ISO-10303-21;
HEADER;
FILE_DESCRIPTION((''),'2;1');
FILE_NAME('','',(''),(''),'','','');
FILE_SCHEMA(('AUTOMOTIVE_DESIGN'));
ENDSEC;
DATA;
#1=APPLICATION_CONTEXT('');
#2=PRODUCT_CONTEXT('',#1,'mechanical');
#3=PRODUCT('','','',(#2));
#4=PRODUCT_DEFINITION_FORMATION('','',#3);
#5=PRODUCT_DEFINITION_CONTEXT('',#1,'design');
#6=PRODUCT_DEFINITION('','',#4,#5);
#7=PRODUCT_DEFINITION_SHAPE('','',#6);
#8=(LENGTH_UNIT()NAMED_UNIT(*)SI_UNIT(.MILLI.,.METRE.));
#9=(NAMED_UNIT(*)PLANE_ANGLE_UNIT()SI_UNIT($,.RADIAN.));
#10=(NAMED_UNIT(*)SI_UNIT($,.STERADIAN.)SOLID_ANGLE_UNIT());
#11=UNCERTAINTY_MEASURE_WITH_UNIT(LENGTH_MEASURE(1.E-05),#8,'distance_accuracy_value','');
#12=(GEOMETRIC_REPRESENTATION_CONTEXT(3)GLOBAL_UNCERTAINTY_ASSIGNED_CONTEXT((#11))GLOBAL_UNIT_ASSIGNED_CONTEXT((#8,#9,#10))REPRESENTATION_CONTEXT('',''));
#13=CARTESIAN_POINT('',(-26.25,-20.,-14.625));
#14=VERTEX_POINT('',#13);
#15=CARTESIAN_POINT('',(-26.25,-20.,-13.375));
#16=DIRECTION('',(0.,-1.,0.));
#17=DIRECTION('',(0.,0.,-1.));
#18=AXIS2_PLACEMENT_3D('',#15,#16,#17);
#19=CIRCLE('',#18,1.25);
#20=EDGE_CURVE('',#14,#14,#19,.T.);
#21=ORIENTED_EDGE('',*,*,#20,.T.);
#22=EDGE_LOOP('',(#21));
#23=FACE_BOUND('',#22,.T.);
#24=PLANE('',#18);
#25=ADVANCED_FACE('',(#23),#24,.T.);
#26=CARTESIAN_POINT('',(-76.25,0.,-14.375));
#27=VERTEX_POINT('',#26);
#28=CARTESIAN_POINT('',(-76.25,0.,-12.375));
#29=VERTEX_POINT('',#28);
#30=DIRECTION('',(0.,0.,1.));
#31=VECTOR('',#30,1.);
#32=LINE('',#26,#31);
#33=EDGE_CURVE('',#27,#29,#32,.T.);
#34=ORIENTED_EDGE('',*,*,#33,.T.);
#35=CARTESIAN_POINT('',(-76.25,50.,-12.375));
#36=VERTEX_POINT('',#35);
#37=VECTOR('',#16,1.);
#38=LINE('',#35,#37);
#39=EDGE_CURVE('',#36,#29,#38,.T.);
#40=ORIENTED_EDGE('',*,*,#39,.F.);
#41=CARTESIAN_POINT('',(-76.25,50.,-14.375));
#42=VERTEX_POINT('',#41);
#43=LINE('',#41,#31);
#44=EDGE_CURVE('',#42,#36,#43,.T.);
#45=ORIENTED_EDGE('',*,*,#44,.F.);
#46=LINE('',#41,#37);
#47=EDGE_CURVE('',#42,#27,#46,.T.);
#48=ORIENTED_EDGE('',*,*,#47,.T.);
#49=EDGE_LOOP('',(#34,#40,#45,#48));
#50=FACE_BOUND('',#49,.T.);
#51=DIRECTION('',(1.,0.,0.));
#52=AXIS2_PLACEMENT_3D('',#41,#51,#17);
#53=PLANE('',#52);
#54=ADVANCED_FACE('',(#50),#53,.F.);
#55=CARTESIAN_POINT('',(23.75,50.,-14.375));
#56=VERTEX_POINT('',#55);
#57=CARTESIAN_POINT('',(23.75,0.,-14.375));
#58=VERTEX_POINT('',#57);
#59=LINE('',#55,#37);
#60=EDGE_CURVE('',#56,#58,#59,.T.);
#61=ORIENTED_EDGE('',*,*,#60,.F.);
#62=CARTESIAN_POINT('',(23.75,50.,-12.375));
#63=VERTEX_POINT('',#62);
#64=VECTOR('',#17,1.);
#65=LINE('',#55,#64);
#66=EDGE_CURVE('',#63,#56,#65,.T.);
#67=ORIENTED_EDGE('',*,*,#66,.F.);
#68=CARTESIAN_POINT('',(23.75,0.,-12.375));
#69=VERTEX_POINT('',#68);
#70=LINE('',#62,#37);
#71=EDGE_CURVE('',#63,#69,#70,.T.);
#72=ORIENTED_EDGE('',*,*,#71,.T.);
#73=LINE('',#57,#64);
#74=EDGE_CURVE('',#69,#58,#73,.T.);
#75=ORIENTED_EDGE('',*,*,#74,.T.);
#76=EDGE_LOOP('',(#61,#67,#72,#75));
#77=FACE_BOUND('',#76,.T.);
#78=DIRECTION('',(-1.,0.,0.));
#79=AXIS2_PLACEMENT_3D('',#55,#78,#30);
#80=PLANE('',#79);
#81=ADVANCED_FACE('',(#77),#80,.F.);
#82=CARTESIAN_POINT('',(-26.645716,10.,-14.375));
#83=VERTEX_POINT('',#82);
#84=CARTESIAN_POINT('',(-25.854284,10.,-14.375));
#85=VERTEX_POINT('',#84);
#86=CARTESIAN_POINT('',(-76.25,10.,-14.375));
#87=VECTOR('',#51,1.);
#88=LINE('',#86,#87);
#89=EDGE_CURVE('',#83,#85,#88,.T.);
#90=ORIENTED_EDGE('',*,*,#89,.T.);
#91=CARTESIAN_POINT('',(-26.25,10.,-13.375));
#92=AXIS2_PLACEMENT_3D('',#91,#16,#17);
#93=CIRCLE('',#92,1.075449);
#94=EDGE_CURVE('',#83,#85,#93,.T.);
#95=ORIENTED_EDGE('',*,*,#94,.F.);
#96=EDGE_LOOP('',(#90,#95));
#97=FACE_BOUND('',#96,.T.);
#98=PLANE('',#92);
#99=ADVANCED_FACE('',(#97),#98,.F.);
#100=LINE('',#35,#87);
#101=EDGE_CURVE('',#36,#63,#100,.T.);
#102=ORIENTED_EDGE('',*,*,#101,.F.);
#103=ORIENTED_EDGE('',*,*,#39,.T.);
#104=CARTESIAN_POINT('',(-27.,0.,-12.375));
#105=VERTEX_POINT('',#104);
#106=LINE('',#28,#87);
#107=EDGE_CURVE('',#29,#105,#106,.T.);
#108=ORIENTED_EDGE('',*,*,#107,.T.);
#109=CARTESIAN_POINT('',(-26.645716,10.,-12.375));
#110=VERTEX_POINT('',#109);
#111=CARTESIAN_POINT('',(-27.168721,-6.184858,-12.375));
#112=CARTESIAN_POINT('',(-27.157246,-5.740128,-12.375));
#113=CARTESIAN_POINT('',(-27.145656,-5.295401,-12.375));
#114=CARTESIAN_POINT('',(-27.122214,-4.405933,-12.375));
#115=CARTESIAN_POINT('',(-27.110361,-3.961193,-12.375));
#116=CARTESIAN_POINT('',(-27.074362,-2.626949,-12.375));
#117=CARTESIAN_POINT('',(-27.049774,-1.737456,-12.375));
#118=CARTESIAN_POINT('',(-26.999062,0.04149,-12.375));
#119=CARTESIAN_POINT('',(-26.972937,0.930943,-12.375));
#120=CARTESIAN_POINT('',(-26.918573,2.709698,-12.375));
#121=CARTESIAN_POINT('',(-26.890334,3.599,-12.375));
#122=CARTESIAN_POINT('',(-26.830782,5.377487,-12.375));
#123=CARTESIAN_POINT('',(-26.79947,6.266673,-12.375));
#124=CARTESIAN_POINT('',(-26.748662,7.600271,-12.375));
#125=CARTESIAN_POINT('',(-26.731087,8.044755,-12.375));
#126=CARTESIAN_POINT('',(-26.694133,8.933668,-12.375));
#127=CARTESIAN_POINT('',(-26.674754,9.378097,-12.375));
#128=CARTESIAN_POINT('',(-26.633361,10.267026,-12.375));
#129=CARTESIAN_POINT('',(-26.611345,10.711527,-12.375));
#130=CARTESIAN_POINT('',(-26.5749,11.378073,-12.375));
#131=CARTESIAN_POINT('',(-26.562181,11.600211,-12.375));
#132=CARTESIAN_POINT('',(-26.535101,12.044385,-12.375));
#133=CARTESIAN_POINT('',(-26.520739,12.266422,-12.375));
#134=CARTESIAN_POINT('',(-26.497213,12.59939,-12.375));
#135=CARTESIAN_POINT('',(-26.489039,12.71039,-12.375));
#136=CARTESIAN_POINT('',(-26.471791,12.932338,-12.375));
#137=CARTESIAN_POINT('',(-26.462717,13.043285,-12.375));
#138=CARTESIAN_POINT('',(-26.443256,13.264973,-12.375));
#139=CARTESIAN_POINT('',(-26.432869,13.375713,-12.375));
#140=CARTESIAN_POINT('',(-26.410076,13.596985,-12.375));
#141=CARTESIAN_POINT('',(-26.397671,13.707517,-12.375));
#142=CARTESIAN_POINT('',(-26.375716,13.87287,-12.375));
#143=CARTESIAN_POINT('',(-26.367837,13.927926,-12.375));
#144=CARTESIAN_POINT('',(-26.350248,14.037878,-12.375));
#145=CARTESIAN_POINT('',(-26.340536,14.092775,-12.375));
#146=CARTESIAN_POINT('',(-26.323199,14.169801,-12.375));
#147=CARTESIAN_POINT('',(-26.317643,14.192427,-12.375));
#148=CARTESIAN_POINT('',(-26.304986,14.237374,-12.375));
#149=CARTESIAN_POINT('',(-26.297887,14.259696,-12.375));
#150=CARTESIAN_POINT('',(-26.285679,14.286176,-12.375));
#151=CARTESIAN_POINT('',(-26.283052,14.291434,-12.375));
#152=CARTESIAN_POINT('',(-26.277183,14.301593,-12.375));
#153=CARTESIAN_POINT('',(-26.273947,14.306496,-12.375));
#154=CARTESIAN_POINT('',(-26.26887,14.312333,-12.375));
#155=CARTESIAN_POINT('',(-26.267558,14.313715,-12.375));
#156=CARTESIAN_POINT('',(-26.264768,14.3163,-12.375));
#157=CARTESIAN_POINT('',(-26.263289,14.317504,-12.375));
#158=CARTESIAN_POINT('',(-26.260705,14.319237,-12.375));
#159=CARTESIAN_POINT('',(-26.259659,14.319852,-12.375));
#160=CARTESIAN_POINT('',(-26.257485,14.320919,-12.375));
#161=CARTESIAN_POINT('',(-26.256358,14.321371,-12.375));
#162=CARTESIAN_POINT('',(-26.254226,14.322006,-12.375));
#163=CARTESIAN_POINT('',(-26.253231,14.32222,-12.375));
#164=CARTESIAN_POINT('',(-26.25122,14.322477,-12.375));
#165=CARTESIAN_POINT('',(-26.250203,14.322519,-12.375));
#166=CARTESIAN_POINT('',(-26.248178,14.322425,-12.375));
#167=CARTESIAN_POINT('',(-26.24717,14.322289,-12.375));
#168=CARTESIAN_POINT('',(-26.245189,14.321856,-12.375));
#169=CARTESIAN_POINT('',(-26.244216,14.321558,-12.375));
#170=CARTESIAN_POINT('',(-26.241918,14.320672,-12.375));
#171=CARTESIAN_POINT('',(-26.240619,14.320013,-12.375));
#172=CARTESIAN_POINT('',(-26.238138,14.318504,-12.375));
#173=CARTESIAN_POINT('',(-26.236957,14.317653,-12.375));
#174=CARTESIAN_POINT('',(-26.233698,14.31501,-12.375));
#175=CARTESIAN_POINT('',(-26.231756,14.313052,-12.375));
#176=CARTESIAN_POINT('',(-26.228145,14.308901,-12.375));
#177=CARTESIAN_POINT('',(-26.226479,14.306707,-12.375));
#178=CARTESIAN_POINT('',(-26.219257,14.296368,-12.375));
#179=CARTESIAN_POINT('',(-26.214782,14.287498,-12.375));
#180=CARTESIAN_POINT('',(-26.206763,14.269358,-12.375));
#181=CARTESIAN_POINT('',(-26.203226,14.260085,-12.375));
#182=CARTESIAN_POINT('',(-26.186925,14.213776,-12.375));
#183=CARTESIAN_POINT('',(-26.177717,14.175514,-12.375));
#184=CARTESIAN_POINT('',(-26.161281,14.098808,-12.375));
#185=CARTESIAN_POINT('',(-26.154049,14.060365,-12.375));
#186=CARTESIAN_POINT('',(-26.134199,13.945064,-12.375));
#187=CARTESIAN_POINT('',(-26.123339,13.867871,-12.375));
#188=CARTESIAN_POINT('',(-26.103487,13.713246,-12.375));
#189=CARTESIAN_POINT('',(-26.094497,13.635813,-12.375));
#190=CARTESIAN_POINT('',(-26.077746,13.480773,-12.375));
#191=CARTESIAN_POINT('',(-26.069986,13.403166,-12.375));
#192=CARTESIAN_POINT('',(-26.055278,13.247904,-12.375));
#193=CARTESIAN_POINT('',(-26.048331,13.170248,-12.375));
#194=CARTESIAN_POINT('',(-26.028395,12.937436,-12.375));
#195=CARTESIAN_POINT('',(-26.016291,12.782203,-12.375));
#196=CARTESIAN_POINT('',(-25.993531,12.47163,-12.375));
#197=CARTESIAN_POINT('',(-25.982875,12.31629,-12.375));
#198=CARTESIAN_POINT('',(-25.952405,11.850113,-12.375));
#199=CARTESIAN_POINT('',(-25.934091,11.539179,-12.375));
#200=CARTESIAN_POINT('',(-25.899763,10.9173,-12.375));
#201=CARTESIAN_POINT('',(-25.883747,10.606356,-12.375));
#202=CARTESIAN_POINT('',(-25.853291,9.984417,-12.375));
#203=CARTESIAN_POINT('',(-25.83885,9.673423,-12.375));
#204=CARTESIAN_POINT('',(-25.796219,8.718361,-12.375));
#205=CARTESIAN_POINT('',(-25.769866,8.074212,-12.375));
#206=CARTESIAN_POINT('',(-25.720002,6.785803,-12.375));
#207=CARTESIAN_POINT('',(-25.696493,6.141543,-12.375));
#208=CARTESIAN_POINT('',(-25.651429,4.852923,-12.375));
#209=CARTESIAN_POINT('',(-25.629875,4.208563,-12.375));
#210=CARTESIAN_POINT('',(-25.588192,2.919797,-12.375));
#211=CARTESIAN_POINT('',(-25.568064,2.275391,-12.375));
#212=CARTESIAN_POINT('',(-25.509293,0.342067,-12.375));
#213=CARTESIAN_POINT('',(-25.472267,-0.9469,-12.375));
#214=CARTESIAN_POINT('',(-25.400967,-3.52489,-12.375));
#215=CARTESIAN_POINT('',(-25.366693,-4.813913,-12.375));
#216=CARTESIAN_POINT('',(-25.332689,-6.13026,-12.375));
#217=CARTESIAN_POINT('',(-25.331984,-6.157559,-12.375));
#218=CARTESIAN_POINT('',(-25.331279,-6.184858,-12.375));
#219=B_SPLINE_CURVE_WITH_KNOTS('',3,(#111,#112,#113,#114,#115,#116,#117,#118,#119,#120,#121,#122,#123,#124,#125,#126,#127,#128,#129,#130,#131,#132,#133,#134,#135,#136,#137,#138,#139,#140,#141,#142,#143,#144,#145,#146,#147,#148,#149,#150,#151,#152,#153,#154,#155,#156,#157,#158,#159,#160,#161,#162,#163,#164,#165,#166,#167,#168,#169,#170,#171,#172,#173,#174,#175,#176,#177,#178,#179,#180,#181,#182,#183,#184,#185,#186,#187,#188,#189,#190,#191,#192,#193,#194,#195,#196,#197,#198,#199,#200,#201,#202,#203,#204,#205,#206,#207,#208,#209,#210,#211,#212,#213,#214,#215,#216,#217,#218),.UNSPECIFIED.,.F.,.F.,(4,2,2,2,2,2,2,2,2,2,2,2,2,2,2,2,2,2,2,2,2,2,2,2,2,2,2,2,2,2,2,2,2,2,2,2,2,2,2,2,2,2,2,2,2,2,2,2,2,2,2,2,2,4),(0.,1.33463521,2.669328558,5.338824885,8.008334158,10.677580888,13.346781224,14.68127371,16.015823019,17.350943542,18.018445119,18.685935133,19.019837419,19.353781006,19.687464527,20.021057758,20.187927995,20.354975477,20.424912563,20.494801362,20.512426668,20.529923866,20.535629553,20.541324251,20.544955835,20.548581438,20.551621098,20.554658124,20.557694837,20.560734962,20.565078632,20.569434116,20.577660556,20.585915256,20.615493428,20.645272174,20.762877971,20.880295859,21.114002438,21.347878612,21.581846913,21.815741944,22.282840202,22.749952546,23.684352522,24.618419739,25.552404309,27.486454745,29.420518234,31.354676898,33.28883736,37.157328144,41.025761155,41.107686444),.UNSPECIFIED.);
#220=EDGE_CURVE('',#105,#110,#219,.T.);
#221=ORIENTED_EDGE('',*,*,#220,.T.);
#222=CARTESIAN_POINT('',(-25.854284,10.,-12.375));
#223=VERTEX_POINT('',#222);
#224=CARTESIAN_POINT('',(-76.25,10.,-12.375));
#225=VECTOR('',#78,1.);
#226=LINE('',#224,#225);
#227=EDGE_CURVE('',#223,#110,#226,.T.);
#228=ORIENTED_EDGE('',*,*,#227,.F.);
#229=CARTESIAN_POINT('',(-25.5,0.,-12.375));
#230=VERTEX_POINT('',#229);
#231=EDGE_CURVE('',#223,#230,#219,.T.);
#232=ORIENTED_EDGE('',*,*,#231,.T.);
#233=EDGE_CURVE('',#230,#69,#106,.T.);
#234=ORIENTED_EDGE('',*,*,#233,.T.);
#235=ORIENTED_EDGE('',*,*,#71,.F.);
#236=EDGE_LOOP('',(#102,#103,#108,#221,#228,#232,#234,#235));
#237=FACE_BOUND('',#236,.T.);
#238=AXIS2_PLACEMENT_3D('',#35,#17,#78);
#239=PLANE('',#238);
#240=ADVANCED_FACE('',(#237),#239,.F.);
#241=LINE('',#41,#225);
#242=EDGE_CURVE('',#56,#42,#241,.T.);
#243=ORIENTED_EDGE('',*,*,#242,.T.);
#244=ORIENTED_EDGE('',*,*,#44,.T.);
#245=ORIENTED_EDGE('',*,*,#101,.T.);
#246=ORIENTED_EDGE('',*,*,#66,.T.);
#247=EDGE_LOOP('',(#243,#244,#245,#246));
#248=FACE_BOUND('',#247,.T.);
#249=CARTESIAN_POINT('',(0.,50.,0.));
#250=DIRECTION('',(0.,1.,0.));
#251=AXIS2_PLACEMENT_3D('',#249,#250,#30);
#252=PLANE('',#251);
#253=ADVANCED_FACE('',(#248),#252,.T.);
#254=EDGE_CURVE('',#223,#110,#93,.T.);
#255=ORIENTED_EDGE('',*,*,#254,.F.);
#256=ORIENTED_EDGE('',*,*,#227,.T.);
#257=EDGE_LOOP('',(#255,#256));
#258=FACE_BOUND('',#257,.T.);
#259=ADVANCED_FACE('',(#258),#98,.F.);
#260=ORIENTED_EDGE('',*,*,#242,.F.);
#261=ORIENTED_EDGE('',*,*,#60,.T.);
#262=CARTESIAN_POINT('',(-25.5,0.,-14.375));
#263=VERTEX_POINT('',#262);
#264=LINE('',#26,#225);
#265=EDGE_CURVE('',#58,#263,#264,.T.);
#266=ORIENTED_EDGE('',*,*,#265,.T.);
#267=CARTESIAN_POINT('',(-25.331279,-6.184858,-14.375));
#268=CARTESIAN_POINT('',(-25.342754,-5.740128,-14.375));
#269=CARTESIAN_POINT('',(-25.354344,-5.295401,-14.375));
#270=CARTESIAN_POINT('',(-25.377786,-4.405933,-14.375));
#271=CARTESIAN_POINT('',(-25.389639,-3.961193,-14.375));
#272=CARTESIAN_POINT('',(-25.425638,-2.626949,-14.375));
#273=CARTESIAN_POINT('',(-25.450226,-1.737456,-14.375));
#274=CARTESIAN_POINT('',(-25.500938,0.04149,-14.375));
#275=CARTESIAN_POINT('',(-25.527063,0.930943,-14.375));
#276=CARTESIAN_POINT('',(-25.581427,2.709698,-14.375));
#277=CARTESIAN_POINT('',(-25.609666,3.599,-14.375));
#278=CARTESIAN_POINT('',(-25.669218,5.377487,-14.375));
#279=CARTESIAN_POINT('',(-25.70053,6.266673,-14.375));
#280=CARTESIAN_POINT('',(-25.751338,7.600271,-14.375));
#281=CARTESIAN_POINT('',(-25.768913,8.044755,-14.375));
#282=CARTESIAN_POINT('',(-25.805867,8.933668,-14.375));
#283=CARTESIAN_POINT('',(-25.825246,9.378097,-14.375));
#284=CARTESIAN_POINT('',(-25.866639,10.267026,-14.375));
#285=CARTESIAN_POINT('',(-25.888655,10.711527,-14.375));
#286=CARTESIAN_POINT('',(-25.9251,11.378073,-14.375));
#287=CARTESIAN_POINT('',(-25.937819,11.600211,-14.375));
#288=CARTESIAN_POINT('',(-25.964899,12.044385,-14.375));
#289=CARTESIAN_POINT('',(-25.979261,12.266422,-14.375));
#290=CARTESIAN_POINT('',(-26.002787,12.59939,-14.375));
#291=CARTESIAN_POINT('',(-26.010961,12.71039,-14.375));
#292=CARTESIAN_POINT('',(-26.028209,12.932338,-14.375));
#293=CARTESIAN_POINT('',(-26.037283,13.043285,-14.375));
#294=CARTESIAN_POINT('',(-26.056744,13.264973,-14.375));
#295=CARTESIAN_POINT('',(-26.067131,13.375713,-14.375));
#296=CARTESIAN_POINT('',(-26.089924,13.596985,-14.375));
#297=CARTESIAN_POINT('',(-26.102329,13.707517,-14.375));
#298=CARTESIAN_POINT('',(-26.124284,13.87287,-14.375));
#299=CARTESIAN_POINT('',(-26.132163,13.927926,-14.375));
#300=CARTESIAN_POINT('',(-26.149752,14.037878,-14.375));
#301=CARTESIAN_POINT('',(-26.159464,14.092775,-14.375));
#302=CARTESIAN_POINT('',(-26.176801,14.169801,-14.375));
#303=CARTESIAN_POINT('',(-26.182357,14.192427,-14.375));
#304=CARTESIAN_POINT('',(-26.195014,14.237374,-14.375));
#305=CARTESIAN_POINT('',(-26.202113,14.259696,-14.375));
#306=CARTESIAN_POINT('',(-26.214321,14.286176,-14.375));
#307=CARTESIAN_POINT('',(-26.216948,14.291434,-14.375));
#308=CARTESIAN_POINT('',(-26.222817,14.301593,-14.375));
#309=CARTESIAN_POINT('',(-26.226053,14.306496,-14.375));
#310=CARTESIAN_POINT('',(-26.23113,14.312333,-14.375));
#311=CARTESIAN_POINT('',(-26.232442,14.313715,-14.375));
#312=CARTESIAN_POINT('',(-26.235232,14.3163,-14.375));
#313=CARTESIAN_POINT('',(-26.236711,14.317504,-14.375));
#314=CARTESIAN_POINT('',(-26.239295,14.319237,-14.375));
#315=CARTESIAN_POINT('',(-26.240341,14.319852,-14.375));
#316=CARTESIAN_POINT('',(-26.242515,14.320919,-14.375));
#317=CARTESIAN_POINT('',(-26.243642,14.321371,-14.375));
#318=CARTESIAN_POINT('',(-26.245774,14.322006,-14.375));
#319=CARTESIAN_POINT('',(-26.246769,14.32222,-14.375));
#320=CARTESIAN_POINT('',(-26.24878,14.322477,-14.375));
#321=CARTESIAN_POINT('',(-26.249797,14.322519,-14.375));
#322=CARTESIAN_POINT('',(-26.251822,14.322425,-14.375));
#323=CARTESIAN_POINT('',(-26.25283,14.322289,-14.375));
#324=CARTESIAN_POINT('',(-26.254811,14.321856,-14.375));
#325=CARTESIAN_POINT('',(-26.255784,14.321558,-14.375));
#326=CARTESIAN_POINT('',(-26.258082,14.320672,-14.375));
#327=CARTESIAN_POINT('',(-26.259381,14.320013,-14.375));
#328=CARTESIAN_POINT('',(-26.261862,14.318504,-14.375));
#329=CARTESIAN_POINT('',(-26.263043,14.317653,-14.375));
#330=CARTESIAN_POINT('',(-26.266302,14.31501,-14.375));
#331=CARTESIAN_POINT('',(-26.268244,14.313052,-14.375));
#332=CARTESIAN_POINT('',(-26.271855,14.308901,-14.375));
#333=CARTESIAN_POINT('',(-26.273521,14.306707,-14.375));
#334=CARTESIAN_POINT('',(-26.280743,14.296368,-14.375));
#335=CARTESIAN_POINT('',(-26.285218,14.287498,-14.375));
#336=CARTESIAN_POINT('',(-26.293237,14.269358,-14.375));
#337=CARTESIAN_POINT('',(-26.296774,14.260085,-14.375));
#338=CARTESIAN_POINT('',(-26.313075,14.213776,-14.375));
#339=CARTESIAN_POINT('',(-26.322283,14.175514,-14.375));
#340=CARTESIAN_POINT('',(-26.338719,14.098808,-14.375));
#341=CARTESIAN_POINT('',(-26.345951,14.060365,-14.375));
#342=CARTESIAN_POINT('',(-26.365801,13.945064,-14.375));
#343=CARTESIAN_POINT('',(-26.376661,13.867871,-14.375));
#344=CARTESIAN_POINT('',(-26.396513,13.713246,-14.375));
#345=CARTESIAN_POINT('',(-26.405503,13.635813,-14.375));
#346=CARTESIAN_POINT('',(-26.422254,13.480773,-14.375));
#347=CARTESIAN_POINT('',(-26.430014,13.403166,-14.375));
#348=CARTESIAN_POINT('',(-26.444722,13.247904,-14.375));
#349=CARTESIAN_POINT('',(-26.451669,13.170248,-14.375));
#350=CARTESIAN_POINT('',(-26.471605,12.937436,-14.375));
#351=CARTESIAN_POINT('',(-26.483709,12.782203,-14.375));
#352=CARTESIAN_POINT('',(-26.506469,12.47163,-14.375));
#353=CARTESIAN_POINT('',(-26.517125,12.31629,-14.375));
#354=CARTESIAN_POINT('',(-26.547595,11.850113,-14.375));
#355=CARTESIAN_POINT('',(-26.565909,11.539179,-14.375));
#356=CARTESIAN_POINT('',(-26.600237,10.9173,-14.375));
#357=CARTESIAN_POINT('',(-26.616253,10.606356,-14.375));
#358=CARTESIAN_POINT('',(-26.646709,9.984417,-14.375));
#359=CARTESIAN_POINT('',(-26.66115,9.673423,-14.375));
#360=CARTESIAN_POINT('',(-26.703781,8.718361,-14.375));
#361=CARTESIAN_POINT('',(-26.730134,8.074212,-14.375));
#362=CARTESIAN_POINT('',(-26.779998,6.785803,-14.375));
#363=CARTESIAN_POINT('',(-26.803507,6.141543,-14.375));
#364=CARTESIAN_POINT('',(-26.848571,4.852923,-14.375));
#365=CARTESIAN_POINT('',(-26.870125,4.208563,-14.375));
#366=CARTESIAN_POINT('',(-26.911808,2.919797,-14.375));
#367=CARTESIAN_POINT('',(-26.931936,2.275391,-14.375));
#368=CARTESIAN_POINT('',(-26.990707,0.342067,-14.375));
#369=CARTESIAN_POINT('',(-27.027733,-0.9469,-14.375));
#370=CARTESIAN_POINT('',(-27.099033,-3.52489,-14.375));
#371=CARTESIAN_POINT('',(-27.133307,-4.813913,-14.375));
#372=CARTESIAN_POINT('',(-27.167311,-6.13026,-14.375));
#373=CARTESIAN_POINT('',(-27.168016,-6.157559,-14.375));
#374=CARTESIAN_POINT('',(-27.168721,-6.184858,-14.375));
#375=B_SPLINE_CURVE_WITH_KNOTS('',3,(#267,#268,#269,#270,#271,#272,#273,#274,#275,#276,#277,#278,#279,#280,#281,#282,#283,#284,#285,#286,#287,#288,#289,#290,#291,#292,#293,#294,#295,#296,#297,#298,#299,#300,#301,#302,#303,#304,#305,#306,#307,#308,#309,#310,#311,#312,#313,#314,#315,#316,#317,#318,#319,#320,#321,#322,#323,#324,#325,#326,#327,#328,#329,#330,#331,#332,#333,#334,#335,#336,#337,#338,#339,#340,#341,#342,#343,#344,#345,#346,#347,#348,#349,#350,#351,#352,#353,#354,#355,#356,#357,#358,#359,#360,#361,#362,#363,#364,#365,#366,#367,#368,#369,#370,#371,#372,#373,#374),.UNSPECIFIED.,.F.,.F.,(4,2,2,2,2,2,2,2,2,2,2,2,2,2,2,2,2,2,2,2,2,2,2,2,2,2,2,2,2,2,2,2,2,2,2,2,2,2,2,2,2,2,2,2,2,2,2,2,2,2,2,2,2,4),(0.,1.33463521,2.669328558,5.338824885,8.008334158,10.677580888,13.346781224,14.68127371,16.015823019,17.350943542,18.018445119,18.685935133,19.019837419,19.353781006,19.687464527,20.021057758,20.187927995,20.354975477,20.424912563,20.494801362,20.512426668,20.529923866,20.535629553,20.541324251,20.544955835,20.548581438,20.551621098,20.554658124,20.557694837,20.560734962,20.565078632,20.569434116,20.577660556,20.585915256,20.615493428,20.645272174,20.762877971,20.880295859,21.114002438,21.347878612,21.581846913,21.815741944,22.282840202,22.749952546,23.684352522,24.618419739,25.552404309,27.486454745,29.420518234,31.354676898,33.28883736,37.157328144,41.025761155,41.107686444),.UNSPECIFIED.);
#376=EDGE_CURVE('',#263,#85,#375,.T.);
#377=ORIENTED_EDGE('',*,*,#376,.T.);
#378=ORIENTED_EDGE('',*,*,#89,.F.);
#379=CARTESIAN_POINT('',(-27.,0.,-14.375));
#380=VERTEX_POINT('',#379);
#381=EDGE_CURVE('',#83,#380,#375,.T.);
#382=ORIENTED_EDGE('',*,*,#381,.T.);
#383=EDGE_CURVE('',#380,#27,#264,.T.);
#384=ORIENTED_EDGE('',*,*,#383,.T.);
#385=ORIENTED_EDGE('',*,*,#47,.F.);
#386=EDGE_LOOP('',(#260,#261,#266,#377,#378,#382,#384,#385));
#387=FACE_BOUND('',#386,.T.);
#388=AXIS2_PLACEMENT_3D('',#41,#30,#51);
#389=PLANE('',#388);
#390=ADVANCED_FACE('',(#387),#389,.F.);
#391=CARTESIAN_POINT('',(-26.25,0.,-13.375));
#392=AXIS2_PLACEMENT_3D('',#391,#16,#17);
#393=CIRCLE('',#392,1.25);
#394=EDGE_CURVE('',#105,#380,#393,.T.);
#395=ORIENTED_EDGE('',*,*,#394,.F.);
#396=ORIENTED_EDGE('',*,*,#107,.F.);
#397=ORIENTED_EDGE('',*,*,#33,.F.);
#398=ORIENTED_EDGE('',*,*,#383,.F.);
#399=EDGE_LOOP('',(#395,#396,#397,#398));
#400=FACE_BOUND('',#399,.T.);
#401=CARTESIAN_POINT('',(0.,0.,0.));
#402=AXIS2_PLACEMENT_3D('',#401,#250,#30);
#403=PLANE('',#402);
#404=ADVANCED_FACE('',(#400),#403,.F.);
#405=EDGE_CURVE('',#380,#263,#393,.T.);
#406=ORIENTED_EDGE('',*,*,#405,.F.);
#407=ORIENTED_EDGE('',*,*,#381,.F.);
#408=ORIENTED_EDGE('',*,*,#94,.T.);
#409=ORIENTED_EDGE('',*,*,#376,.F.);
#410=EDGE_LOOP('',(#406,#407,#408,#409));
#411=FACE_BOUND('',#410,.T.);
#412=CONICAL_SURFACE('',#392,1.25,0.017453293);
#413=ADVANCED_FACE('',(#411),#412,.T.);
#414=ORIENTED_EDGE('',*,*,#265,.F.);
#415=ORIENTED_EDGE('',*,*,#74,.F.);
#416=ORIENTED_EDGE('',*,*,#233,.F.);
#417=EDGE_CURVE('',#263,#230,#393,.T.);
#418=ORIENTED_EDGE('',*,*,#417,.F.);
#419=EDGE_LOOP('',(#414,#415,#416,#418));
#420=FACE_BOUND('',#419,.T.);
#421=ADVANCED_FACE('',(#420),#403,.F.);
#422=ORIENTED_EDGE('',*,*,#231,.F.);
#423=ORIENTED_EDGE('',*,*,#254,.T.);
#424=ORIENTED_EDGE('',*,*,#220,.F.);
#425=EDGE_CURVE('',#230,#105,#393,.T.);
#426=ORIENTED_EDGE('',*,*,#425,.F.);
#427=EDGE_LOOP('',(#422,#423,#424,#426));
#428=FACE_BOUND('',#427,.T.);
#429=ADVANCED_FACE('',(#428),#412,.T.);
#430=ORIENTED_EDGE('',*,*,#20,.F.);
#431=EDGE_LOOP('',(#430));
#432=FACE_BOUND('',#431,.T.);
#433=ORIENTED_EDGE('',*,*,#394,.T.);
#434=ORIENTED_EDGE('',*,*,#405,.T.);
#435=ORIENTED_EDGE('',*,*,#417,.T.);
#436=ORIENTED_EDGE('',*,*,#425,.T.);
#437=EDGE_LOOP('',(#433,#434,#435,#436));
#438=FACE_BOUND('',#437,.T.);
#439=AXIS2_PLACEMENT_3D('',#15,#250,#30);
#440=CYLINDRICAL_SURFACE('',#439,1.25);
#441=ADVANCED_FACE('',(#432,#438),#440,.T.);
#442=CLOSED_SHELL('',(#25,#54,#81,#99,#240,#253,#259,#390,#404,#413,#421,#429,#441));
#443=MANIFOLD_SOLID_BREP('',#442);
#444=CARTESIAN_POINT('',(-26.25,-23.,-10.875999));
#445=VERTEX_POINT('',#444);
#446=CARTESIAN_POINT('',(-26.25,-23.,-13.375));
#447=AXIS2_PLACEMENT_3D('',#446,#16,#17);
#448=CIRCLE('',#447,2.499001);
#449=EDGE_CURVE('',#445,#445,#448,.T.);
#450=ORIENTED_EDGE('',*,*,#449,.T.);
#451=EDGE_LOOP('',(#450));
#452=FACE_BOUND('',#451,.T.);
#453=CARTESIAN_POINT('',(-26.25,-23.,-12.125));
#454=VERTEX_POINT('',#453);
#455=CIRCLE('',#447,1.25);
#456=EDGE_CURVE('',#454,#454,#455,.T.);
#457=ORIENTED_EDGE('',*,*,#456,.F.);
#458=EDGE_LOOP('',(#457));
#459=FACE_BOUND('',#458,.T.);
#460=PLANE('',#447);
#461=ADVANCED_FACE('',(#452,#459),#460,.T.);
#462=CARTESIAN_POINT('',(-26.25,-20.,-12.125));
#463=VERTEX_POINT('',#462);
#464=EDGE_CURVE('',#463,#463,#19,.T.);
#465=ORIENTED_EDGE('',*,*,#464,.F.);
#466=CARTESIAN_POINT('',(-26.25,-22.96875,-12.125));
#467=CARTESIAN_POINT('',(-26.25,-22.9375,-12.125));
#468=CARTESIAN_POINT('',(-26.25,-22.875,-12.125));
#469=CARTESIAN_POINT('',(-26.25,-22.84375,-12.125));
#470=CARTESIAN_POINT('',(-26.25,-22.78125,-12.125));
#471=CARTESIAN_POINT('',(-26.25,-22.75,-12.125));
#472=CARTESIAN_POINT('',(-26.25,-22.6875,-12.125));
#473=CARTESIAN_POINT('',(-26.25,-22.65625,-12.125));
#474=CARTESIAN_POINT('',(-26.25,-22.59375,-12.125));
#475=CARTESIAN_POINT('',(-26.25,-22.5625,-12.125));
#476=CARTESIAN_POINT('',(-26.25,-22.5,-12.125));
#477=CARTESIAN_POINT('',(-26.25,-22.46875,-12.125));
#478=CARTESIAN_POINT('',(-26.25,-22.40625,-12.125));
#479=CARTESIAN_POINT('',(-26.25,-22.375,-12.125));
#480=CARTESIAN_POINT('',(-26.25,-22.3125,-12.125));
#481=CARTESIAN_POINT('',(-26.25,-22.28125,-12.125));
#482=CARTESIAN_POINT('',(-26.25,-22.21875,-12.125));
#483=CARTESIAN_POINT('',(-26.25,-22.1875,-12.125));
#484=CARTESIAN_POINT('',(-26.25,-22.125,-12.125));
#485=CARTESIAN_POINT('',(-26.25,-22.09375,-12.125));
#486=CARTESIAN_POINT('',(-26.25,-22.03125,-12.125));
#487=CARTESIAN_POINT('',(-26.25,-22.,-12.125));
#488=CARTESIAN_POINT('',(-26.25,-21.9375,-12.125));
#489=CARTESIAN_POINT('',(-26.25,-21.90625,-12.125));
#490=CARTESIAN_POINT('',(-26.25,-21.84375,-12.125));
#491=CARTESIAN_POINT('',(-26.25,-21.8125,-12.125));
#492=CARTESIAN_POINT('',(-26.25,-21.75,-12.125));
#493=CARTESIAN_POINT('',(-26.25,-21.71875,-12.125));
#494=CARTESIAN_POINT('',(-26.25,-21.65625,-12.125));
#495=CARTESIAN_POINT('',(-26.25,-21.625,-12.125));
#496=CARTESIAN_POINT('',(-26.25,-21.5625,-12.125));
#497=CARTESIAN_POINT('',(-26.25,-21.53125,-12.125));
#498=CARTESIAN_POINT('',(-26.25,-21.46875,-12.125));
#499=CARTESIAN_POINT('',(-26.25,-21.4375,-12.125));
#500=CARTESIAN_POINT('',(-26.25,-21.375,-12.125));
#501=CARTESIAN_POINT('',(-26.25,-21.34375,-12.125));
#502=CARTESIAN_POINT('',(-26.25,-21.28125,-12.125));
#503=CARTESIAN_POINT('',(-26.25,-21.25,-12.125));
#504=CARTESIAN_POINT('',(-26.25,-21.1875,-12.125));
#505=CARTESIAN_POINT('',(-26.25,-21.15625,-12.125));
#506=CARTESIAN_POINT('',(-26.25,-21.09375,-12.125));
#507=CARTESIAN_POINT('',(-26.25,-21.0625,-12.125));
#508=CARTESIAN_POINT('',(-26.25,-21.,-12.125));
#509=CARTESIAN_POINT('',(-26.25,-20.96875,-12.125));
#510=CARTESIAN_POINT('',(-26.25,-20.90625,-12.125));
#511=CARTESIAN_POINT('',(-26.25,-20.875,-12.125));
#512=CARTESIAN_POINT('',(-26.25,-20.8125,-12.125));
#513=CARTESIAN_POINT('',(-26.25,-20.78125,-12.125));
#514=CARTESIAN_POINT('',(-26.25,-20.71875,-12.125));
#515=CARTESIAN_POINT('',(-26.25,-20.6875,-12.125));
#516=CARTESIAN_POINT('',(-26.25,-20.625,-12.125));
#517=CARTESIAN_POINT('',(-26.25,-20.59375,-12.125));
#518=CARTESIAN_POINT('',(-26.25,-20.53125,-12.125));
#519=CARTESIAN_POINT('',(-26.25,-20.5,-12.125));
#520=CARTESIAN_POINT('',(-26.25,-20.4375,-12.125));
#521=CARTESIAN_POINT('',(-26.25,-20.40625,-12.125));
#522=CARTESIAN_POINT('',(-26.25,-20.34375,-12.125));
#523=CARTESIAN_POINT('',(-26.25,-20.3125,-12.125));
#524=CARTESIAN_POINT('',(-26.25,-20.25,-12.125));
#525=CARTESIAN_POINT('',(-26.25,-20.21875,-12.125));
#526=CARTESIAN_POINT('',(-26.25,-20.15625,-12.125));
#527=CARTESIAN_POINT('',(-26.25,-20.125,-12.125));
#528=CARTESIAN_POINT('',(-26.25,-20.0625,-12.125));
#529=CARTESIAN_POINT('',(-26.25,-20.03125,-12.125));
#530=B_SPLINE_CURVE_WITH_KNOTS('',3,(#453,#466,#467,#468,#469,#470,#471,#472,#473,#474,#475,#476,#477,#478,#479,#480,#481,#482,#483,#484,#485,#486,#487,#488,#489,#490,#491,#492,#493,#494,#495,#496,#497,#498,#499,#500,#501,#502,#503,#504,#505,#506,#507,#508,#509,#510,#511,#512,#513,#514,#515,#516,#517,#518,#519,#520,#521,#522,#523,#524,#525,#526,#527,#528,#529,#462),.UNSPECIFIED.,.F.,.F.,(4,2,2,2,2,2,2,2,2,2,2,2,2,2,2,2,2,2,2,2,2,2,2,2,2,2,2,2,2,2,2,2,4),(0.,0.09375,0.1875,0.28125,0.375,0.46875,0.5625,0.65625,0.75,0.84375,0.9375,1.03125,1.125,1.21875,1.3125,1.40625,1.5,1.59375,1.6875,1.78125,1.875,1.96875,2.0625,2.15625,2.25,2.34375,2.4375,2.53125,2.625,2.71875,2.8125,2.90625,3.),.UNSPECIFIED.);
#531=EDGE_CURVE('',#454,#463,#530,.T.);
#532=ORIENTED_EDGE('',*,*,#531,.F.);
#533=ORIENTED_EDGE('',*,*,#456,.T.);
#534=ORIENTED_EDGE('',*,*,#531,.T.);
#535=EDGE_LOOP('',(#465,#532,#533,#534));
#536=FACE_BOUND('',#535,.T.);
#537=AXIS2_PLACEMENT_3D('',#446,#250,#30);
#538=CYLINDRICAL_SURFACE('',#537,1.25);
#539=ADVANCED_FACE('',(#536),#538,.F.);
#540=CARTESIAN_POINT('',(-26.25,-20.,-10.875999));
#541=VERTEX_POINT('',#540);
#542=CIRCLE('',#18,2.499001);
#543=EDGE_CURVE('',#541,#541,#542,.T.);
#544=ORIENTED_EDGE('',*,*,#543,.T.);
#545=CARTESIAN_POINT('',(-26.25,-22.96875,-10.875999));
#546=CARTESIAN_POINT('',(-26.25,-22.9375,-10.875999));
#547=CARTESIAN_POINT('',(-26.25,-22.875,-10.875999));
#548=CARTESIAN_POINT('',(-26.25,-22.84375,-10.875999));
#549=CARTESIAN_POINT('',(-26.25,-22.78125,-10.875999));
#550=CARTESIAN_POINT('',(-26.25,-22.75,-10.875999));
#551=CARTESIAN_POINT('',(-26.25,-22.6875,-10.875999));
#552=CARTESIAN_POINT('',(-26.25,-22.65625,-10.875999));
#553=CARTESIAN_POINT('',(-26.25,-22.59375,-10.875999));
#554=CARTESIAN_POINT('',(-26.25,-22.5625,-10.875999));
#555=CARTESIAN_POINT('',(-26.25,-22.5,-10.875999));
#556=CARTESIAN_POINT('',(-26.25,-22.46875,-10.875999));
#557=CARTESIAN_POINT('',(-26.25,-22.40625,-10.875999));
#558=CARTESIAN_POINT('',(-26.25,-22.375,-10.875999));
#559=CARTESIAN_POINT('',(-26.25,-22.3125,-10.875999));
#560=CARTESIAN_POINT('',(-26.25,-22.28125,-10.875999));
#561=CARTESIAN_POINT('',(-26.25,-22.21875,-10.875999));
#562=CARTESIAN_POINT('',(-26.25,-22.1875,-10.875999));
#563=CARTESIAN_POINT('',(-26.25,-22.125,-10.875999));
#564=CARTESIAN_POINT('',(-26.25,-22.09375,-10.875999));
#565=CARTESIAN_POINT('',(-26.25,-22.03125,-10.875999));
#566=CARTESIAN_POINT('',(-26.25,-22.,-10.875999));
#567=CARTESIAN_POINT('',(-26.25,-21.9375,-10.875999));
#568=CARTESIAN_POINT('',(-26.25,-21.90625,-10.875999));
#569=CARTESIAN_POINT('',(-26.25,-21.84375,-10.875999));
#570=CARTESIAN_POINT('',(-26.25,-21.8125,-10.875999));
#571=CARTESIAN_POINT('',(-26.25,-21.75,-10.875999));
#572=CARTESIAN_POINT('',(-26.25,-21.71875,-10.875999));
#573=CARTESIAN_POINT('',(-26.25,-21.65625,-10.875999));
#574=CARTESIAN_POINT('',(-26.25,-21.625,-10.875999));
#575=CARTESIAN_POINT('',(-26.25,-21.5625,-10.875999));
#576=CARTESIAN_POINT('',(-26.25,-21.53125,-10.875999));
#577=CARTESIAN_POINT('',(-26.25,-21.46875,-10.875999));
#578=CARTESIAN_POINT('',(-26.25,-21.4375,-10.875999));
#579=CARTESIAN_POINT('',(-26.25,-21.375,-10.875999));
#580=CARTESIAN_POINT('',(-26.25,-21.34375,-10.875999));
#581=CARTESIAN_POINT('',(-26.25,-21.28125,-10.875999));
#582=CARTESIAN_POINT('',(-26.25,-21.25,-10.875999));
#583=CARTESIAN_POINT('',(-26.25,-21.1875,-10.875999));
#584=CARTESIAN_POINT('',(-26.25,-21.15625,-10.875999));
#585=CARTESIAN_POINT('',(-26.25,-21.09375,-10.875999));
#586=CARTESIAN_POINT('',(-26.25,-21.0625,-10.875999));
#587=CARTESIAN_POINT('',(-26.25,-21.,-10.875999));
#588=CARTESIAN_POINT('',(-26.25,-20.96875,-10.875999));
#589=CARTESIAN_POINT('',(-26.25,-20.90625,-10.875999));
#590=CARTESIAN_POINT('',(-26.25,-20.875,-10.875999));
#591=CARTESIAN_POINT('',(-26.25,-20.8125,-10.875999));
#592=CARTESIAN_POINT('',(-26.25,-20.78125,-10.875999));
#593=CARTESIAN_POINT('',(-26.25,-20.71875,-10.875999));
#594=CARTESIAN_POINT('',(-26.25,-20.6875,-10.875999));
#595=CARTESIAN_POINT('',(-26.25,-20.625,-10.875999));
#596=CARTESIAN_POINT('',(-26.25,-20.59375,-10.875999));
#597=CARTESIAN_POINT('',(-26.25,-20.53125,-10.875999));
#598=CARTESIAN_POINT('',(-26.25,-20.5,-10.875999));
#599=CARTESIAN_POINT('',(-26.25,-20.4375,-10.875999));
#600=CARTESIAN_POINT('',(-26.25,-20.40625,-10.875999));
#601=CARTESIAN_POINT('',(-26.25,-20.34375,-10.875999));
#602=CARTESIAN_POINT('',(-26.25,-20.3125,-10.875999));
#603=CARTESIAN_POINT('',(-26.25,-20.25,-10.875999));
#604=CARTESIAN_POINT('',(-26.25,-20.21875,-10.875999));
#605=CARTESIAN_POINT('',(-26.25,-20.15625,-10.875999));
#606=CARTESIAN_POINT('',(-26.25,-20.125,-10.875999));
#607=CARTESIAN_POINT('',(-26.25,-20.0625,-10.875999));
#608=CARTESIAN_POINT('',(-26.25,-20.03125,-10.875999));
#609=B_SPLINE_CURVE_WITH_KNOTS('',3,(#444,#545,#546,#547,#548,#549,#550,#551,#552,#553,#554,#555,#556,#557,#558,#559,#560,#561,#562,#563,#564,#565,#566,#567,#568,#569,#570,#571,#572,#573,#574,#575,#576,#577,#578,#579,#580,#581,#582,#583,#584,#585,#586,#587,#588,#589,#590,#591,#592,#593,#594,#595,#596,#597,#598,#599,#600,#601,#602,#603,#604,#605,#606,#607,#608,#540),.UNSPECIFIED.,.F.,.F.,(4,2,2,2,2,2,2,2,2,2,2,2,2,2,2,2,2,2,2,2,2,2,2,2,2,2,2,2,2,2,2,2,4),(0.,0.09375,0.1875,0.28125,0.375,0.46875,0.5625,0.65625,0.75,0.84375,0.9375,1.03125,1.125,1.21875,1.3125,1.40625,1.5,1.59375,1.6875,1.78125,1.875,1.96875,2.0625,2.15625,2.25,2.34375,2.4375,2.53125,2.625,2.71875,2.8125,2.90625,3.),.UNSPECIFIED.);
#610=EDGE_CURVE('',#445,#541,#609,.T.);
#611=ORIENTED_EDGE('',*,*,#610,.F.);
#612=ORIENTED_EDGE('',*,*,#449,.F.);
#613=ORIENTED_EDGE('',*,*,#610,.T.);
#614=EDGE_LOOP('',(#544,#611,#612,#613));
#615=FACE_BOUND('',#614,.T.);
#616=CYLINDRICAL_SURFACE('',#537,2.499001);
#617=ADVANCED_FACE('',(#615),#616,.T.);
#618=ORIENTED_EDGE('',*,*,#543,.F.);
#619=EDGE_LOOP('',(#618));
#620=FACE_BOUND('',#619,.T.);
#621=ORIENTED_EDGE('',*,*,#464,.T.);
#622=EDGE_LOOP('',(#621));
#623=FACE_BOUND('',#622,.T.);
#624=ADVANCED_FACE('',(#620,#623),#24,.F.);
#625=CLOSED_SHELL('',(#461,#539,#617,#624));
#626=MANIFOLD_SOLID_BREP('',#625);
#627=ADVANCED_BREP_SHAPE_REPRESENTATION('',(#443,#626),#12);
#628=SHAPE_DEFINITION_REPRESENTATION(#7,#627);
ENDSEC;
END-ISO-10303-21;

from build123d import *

# Parameters (mm, degrees)
SKETCH1_W           = 100
SKETCH1_H           = 2
BOSS_EXTRUDE1_DEPTH = 50
SKETCH2_R           = 1.25
BOSS_EXTRUDE2_DEPTH = 10
BOSS_EXTRUDE2_DRAFT = -1
SKETCH3_R           = 1.25
BOSS_EXTRUDE3_DEPTH = 20
SKETCH4_R           = 2.499001264
SKETCH4_R_2         = 1.25
BOSS_EXTRUDE4_DEPTH = 3


with BuildPart() as part:
    # Sketch1 → Boss-Extrude1 (new body)
    with BuildSketch(Plane(origin=(0, 0, 0), x_dir=(1, 0, 0), z_dir=(0, 1, 0))):
        with Locations((-26.25, 13.375)):
            Rectangle(SKETCH1_W, SKETCH1_H)
    extrude(amount=BOSS_EXTRUDE1_DEPTH)


with BuildPart() as boss_extrude2_tool:
    # Sketch2 → Boss-Extrude2 (with draft: the straight prism first)
    with BuildSketch(Plane.XZ):
        with Locations((-26.25, -13.375)):
            Circle(SKETCH2_R)
    extrude(amount=-BOSS_EXTRUDE2_DEPTH)
    # Boss-Extrude2: the draft: its side faces are tilted about the plane it starts from
    boss_extrude2_sides = [boss_extrude2_tool.faces().sort_by_distance(p)[0] for p in [
        (-27.5, 5, -13.375),
    ]]
    draft(boss_extrude2_sides, Plane.XZ, BOSS_EXTRUDE2_DRAFT)


with BuildPart() as part_1:
    add(part.part)

    # Boss-Extrude2: add boss_extrude2_tool
    add(boss_extrude2_tool.part)

    # Sketch3 → Boss-Extrude3 (add)
    with BuildSketch(Plane.XZ):
        with Locations(Location((-26.25, -13.375, 0), (0, 0, 53.130102354))):
            Circle(SKETCH3_R)
    extrude(amount=BOSS_EXTRUDE3_DEPTH)


with BuildPart() as body_2:
    # Sketch4 → Boss-Extrude4 (new body)
    with BuildSketch(Plane.XZ.offset(20)):
        with Locations(Location((-26.25, -13.375, 0), (0, 0, 90))):
            Circle(SKETCH4_R)
        with Locations(Location((-26.25, -13.375, 0), (0, 0, 90))):
            Circle(SKETCH4_R_2, mode=Mode.SUBTRACT)
    extrude(amount=BOSS_EXTRUDE4_DEPTH)


solid = Compound([part_1.part, body_2.part])
